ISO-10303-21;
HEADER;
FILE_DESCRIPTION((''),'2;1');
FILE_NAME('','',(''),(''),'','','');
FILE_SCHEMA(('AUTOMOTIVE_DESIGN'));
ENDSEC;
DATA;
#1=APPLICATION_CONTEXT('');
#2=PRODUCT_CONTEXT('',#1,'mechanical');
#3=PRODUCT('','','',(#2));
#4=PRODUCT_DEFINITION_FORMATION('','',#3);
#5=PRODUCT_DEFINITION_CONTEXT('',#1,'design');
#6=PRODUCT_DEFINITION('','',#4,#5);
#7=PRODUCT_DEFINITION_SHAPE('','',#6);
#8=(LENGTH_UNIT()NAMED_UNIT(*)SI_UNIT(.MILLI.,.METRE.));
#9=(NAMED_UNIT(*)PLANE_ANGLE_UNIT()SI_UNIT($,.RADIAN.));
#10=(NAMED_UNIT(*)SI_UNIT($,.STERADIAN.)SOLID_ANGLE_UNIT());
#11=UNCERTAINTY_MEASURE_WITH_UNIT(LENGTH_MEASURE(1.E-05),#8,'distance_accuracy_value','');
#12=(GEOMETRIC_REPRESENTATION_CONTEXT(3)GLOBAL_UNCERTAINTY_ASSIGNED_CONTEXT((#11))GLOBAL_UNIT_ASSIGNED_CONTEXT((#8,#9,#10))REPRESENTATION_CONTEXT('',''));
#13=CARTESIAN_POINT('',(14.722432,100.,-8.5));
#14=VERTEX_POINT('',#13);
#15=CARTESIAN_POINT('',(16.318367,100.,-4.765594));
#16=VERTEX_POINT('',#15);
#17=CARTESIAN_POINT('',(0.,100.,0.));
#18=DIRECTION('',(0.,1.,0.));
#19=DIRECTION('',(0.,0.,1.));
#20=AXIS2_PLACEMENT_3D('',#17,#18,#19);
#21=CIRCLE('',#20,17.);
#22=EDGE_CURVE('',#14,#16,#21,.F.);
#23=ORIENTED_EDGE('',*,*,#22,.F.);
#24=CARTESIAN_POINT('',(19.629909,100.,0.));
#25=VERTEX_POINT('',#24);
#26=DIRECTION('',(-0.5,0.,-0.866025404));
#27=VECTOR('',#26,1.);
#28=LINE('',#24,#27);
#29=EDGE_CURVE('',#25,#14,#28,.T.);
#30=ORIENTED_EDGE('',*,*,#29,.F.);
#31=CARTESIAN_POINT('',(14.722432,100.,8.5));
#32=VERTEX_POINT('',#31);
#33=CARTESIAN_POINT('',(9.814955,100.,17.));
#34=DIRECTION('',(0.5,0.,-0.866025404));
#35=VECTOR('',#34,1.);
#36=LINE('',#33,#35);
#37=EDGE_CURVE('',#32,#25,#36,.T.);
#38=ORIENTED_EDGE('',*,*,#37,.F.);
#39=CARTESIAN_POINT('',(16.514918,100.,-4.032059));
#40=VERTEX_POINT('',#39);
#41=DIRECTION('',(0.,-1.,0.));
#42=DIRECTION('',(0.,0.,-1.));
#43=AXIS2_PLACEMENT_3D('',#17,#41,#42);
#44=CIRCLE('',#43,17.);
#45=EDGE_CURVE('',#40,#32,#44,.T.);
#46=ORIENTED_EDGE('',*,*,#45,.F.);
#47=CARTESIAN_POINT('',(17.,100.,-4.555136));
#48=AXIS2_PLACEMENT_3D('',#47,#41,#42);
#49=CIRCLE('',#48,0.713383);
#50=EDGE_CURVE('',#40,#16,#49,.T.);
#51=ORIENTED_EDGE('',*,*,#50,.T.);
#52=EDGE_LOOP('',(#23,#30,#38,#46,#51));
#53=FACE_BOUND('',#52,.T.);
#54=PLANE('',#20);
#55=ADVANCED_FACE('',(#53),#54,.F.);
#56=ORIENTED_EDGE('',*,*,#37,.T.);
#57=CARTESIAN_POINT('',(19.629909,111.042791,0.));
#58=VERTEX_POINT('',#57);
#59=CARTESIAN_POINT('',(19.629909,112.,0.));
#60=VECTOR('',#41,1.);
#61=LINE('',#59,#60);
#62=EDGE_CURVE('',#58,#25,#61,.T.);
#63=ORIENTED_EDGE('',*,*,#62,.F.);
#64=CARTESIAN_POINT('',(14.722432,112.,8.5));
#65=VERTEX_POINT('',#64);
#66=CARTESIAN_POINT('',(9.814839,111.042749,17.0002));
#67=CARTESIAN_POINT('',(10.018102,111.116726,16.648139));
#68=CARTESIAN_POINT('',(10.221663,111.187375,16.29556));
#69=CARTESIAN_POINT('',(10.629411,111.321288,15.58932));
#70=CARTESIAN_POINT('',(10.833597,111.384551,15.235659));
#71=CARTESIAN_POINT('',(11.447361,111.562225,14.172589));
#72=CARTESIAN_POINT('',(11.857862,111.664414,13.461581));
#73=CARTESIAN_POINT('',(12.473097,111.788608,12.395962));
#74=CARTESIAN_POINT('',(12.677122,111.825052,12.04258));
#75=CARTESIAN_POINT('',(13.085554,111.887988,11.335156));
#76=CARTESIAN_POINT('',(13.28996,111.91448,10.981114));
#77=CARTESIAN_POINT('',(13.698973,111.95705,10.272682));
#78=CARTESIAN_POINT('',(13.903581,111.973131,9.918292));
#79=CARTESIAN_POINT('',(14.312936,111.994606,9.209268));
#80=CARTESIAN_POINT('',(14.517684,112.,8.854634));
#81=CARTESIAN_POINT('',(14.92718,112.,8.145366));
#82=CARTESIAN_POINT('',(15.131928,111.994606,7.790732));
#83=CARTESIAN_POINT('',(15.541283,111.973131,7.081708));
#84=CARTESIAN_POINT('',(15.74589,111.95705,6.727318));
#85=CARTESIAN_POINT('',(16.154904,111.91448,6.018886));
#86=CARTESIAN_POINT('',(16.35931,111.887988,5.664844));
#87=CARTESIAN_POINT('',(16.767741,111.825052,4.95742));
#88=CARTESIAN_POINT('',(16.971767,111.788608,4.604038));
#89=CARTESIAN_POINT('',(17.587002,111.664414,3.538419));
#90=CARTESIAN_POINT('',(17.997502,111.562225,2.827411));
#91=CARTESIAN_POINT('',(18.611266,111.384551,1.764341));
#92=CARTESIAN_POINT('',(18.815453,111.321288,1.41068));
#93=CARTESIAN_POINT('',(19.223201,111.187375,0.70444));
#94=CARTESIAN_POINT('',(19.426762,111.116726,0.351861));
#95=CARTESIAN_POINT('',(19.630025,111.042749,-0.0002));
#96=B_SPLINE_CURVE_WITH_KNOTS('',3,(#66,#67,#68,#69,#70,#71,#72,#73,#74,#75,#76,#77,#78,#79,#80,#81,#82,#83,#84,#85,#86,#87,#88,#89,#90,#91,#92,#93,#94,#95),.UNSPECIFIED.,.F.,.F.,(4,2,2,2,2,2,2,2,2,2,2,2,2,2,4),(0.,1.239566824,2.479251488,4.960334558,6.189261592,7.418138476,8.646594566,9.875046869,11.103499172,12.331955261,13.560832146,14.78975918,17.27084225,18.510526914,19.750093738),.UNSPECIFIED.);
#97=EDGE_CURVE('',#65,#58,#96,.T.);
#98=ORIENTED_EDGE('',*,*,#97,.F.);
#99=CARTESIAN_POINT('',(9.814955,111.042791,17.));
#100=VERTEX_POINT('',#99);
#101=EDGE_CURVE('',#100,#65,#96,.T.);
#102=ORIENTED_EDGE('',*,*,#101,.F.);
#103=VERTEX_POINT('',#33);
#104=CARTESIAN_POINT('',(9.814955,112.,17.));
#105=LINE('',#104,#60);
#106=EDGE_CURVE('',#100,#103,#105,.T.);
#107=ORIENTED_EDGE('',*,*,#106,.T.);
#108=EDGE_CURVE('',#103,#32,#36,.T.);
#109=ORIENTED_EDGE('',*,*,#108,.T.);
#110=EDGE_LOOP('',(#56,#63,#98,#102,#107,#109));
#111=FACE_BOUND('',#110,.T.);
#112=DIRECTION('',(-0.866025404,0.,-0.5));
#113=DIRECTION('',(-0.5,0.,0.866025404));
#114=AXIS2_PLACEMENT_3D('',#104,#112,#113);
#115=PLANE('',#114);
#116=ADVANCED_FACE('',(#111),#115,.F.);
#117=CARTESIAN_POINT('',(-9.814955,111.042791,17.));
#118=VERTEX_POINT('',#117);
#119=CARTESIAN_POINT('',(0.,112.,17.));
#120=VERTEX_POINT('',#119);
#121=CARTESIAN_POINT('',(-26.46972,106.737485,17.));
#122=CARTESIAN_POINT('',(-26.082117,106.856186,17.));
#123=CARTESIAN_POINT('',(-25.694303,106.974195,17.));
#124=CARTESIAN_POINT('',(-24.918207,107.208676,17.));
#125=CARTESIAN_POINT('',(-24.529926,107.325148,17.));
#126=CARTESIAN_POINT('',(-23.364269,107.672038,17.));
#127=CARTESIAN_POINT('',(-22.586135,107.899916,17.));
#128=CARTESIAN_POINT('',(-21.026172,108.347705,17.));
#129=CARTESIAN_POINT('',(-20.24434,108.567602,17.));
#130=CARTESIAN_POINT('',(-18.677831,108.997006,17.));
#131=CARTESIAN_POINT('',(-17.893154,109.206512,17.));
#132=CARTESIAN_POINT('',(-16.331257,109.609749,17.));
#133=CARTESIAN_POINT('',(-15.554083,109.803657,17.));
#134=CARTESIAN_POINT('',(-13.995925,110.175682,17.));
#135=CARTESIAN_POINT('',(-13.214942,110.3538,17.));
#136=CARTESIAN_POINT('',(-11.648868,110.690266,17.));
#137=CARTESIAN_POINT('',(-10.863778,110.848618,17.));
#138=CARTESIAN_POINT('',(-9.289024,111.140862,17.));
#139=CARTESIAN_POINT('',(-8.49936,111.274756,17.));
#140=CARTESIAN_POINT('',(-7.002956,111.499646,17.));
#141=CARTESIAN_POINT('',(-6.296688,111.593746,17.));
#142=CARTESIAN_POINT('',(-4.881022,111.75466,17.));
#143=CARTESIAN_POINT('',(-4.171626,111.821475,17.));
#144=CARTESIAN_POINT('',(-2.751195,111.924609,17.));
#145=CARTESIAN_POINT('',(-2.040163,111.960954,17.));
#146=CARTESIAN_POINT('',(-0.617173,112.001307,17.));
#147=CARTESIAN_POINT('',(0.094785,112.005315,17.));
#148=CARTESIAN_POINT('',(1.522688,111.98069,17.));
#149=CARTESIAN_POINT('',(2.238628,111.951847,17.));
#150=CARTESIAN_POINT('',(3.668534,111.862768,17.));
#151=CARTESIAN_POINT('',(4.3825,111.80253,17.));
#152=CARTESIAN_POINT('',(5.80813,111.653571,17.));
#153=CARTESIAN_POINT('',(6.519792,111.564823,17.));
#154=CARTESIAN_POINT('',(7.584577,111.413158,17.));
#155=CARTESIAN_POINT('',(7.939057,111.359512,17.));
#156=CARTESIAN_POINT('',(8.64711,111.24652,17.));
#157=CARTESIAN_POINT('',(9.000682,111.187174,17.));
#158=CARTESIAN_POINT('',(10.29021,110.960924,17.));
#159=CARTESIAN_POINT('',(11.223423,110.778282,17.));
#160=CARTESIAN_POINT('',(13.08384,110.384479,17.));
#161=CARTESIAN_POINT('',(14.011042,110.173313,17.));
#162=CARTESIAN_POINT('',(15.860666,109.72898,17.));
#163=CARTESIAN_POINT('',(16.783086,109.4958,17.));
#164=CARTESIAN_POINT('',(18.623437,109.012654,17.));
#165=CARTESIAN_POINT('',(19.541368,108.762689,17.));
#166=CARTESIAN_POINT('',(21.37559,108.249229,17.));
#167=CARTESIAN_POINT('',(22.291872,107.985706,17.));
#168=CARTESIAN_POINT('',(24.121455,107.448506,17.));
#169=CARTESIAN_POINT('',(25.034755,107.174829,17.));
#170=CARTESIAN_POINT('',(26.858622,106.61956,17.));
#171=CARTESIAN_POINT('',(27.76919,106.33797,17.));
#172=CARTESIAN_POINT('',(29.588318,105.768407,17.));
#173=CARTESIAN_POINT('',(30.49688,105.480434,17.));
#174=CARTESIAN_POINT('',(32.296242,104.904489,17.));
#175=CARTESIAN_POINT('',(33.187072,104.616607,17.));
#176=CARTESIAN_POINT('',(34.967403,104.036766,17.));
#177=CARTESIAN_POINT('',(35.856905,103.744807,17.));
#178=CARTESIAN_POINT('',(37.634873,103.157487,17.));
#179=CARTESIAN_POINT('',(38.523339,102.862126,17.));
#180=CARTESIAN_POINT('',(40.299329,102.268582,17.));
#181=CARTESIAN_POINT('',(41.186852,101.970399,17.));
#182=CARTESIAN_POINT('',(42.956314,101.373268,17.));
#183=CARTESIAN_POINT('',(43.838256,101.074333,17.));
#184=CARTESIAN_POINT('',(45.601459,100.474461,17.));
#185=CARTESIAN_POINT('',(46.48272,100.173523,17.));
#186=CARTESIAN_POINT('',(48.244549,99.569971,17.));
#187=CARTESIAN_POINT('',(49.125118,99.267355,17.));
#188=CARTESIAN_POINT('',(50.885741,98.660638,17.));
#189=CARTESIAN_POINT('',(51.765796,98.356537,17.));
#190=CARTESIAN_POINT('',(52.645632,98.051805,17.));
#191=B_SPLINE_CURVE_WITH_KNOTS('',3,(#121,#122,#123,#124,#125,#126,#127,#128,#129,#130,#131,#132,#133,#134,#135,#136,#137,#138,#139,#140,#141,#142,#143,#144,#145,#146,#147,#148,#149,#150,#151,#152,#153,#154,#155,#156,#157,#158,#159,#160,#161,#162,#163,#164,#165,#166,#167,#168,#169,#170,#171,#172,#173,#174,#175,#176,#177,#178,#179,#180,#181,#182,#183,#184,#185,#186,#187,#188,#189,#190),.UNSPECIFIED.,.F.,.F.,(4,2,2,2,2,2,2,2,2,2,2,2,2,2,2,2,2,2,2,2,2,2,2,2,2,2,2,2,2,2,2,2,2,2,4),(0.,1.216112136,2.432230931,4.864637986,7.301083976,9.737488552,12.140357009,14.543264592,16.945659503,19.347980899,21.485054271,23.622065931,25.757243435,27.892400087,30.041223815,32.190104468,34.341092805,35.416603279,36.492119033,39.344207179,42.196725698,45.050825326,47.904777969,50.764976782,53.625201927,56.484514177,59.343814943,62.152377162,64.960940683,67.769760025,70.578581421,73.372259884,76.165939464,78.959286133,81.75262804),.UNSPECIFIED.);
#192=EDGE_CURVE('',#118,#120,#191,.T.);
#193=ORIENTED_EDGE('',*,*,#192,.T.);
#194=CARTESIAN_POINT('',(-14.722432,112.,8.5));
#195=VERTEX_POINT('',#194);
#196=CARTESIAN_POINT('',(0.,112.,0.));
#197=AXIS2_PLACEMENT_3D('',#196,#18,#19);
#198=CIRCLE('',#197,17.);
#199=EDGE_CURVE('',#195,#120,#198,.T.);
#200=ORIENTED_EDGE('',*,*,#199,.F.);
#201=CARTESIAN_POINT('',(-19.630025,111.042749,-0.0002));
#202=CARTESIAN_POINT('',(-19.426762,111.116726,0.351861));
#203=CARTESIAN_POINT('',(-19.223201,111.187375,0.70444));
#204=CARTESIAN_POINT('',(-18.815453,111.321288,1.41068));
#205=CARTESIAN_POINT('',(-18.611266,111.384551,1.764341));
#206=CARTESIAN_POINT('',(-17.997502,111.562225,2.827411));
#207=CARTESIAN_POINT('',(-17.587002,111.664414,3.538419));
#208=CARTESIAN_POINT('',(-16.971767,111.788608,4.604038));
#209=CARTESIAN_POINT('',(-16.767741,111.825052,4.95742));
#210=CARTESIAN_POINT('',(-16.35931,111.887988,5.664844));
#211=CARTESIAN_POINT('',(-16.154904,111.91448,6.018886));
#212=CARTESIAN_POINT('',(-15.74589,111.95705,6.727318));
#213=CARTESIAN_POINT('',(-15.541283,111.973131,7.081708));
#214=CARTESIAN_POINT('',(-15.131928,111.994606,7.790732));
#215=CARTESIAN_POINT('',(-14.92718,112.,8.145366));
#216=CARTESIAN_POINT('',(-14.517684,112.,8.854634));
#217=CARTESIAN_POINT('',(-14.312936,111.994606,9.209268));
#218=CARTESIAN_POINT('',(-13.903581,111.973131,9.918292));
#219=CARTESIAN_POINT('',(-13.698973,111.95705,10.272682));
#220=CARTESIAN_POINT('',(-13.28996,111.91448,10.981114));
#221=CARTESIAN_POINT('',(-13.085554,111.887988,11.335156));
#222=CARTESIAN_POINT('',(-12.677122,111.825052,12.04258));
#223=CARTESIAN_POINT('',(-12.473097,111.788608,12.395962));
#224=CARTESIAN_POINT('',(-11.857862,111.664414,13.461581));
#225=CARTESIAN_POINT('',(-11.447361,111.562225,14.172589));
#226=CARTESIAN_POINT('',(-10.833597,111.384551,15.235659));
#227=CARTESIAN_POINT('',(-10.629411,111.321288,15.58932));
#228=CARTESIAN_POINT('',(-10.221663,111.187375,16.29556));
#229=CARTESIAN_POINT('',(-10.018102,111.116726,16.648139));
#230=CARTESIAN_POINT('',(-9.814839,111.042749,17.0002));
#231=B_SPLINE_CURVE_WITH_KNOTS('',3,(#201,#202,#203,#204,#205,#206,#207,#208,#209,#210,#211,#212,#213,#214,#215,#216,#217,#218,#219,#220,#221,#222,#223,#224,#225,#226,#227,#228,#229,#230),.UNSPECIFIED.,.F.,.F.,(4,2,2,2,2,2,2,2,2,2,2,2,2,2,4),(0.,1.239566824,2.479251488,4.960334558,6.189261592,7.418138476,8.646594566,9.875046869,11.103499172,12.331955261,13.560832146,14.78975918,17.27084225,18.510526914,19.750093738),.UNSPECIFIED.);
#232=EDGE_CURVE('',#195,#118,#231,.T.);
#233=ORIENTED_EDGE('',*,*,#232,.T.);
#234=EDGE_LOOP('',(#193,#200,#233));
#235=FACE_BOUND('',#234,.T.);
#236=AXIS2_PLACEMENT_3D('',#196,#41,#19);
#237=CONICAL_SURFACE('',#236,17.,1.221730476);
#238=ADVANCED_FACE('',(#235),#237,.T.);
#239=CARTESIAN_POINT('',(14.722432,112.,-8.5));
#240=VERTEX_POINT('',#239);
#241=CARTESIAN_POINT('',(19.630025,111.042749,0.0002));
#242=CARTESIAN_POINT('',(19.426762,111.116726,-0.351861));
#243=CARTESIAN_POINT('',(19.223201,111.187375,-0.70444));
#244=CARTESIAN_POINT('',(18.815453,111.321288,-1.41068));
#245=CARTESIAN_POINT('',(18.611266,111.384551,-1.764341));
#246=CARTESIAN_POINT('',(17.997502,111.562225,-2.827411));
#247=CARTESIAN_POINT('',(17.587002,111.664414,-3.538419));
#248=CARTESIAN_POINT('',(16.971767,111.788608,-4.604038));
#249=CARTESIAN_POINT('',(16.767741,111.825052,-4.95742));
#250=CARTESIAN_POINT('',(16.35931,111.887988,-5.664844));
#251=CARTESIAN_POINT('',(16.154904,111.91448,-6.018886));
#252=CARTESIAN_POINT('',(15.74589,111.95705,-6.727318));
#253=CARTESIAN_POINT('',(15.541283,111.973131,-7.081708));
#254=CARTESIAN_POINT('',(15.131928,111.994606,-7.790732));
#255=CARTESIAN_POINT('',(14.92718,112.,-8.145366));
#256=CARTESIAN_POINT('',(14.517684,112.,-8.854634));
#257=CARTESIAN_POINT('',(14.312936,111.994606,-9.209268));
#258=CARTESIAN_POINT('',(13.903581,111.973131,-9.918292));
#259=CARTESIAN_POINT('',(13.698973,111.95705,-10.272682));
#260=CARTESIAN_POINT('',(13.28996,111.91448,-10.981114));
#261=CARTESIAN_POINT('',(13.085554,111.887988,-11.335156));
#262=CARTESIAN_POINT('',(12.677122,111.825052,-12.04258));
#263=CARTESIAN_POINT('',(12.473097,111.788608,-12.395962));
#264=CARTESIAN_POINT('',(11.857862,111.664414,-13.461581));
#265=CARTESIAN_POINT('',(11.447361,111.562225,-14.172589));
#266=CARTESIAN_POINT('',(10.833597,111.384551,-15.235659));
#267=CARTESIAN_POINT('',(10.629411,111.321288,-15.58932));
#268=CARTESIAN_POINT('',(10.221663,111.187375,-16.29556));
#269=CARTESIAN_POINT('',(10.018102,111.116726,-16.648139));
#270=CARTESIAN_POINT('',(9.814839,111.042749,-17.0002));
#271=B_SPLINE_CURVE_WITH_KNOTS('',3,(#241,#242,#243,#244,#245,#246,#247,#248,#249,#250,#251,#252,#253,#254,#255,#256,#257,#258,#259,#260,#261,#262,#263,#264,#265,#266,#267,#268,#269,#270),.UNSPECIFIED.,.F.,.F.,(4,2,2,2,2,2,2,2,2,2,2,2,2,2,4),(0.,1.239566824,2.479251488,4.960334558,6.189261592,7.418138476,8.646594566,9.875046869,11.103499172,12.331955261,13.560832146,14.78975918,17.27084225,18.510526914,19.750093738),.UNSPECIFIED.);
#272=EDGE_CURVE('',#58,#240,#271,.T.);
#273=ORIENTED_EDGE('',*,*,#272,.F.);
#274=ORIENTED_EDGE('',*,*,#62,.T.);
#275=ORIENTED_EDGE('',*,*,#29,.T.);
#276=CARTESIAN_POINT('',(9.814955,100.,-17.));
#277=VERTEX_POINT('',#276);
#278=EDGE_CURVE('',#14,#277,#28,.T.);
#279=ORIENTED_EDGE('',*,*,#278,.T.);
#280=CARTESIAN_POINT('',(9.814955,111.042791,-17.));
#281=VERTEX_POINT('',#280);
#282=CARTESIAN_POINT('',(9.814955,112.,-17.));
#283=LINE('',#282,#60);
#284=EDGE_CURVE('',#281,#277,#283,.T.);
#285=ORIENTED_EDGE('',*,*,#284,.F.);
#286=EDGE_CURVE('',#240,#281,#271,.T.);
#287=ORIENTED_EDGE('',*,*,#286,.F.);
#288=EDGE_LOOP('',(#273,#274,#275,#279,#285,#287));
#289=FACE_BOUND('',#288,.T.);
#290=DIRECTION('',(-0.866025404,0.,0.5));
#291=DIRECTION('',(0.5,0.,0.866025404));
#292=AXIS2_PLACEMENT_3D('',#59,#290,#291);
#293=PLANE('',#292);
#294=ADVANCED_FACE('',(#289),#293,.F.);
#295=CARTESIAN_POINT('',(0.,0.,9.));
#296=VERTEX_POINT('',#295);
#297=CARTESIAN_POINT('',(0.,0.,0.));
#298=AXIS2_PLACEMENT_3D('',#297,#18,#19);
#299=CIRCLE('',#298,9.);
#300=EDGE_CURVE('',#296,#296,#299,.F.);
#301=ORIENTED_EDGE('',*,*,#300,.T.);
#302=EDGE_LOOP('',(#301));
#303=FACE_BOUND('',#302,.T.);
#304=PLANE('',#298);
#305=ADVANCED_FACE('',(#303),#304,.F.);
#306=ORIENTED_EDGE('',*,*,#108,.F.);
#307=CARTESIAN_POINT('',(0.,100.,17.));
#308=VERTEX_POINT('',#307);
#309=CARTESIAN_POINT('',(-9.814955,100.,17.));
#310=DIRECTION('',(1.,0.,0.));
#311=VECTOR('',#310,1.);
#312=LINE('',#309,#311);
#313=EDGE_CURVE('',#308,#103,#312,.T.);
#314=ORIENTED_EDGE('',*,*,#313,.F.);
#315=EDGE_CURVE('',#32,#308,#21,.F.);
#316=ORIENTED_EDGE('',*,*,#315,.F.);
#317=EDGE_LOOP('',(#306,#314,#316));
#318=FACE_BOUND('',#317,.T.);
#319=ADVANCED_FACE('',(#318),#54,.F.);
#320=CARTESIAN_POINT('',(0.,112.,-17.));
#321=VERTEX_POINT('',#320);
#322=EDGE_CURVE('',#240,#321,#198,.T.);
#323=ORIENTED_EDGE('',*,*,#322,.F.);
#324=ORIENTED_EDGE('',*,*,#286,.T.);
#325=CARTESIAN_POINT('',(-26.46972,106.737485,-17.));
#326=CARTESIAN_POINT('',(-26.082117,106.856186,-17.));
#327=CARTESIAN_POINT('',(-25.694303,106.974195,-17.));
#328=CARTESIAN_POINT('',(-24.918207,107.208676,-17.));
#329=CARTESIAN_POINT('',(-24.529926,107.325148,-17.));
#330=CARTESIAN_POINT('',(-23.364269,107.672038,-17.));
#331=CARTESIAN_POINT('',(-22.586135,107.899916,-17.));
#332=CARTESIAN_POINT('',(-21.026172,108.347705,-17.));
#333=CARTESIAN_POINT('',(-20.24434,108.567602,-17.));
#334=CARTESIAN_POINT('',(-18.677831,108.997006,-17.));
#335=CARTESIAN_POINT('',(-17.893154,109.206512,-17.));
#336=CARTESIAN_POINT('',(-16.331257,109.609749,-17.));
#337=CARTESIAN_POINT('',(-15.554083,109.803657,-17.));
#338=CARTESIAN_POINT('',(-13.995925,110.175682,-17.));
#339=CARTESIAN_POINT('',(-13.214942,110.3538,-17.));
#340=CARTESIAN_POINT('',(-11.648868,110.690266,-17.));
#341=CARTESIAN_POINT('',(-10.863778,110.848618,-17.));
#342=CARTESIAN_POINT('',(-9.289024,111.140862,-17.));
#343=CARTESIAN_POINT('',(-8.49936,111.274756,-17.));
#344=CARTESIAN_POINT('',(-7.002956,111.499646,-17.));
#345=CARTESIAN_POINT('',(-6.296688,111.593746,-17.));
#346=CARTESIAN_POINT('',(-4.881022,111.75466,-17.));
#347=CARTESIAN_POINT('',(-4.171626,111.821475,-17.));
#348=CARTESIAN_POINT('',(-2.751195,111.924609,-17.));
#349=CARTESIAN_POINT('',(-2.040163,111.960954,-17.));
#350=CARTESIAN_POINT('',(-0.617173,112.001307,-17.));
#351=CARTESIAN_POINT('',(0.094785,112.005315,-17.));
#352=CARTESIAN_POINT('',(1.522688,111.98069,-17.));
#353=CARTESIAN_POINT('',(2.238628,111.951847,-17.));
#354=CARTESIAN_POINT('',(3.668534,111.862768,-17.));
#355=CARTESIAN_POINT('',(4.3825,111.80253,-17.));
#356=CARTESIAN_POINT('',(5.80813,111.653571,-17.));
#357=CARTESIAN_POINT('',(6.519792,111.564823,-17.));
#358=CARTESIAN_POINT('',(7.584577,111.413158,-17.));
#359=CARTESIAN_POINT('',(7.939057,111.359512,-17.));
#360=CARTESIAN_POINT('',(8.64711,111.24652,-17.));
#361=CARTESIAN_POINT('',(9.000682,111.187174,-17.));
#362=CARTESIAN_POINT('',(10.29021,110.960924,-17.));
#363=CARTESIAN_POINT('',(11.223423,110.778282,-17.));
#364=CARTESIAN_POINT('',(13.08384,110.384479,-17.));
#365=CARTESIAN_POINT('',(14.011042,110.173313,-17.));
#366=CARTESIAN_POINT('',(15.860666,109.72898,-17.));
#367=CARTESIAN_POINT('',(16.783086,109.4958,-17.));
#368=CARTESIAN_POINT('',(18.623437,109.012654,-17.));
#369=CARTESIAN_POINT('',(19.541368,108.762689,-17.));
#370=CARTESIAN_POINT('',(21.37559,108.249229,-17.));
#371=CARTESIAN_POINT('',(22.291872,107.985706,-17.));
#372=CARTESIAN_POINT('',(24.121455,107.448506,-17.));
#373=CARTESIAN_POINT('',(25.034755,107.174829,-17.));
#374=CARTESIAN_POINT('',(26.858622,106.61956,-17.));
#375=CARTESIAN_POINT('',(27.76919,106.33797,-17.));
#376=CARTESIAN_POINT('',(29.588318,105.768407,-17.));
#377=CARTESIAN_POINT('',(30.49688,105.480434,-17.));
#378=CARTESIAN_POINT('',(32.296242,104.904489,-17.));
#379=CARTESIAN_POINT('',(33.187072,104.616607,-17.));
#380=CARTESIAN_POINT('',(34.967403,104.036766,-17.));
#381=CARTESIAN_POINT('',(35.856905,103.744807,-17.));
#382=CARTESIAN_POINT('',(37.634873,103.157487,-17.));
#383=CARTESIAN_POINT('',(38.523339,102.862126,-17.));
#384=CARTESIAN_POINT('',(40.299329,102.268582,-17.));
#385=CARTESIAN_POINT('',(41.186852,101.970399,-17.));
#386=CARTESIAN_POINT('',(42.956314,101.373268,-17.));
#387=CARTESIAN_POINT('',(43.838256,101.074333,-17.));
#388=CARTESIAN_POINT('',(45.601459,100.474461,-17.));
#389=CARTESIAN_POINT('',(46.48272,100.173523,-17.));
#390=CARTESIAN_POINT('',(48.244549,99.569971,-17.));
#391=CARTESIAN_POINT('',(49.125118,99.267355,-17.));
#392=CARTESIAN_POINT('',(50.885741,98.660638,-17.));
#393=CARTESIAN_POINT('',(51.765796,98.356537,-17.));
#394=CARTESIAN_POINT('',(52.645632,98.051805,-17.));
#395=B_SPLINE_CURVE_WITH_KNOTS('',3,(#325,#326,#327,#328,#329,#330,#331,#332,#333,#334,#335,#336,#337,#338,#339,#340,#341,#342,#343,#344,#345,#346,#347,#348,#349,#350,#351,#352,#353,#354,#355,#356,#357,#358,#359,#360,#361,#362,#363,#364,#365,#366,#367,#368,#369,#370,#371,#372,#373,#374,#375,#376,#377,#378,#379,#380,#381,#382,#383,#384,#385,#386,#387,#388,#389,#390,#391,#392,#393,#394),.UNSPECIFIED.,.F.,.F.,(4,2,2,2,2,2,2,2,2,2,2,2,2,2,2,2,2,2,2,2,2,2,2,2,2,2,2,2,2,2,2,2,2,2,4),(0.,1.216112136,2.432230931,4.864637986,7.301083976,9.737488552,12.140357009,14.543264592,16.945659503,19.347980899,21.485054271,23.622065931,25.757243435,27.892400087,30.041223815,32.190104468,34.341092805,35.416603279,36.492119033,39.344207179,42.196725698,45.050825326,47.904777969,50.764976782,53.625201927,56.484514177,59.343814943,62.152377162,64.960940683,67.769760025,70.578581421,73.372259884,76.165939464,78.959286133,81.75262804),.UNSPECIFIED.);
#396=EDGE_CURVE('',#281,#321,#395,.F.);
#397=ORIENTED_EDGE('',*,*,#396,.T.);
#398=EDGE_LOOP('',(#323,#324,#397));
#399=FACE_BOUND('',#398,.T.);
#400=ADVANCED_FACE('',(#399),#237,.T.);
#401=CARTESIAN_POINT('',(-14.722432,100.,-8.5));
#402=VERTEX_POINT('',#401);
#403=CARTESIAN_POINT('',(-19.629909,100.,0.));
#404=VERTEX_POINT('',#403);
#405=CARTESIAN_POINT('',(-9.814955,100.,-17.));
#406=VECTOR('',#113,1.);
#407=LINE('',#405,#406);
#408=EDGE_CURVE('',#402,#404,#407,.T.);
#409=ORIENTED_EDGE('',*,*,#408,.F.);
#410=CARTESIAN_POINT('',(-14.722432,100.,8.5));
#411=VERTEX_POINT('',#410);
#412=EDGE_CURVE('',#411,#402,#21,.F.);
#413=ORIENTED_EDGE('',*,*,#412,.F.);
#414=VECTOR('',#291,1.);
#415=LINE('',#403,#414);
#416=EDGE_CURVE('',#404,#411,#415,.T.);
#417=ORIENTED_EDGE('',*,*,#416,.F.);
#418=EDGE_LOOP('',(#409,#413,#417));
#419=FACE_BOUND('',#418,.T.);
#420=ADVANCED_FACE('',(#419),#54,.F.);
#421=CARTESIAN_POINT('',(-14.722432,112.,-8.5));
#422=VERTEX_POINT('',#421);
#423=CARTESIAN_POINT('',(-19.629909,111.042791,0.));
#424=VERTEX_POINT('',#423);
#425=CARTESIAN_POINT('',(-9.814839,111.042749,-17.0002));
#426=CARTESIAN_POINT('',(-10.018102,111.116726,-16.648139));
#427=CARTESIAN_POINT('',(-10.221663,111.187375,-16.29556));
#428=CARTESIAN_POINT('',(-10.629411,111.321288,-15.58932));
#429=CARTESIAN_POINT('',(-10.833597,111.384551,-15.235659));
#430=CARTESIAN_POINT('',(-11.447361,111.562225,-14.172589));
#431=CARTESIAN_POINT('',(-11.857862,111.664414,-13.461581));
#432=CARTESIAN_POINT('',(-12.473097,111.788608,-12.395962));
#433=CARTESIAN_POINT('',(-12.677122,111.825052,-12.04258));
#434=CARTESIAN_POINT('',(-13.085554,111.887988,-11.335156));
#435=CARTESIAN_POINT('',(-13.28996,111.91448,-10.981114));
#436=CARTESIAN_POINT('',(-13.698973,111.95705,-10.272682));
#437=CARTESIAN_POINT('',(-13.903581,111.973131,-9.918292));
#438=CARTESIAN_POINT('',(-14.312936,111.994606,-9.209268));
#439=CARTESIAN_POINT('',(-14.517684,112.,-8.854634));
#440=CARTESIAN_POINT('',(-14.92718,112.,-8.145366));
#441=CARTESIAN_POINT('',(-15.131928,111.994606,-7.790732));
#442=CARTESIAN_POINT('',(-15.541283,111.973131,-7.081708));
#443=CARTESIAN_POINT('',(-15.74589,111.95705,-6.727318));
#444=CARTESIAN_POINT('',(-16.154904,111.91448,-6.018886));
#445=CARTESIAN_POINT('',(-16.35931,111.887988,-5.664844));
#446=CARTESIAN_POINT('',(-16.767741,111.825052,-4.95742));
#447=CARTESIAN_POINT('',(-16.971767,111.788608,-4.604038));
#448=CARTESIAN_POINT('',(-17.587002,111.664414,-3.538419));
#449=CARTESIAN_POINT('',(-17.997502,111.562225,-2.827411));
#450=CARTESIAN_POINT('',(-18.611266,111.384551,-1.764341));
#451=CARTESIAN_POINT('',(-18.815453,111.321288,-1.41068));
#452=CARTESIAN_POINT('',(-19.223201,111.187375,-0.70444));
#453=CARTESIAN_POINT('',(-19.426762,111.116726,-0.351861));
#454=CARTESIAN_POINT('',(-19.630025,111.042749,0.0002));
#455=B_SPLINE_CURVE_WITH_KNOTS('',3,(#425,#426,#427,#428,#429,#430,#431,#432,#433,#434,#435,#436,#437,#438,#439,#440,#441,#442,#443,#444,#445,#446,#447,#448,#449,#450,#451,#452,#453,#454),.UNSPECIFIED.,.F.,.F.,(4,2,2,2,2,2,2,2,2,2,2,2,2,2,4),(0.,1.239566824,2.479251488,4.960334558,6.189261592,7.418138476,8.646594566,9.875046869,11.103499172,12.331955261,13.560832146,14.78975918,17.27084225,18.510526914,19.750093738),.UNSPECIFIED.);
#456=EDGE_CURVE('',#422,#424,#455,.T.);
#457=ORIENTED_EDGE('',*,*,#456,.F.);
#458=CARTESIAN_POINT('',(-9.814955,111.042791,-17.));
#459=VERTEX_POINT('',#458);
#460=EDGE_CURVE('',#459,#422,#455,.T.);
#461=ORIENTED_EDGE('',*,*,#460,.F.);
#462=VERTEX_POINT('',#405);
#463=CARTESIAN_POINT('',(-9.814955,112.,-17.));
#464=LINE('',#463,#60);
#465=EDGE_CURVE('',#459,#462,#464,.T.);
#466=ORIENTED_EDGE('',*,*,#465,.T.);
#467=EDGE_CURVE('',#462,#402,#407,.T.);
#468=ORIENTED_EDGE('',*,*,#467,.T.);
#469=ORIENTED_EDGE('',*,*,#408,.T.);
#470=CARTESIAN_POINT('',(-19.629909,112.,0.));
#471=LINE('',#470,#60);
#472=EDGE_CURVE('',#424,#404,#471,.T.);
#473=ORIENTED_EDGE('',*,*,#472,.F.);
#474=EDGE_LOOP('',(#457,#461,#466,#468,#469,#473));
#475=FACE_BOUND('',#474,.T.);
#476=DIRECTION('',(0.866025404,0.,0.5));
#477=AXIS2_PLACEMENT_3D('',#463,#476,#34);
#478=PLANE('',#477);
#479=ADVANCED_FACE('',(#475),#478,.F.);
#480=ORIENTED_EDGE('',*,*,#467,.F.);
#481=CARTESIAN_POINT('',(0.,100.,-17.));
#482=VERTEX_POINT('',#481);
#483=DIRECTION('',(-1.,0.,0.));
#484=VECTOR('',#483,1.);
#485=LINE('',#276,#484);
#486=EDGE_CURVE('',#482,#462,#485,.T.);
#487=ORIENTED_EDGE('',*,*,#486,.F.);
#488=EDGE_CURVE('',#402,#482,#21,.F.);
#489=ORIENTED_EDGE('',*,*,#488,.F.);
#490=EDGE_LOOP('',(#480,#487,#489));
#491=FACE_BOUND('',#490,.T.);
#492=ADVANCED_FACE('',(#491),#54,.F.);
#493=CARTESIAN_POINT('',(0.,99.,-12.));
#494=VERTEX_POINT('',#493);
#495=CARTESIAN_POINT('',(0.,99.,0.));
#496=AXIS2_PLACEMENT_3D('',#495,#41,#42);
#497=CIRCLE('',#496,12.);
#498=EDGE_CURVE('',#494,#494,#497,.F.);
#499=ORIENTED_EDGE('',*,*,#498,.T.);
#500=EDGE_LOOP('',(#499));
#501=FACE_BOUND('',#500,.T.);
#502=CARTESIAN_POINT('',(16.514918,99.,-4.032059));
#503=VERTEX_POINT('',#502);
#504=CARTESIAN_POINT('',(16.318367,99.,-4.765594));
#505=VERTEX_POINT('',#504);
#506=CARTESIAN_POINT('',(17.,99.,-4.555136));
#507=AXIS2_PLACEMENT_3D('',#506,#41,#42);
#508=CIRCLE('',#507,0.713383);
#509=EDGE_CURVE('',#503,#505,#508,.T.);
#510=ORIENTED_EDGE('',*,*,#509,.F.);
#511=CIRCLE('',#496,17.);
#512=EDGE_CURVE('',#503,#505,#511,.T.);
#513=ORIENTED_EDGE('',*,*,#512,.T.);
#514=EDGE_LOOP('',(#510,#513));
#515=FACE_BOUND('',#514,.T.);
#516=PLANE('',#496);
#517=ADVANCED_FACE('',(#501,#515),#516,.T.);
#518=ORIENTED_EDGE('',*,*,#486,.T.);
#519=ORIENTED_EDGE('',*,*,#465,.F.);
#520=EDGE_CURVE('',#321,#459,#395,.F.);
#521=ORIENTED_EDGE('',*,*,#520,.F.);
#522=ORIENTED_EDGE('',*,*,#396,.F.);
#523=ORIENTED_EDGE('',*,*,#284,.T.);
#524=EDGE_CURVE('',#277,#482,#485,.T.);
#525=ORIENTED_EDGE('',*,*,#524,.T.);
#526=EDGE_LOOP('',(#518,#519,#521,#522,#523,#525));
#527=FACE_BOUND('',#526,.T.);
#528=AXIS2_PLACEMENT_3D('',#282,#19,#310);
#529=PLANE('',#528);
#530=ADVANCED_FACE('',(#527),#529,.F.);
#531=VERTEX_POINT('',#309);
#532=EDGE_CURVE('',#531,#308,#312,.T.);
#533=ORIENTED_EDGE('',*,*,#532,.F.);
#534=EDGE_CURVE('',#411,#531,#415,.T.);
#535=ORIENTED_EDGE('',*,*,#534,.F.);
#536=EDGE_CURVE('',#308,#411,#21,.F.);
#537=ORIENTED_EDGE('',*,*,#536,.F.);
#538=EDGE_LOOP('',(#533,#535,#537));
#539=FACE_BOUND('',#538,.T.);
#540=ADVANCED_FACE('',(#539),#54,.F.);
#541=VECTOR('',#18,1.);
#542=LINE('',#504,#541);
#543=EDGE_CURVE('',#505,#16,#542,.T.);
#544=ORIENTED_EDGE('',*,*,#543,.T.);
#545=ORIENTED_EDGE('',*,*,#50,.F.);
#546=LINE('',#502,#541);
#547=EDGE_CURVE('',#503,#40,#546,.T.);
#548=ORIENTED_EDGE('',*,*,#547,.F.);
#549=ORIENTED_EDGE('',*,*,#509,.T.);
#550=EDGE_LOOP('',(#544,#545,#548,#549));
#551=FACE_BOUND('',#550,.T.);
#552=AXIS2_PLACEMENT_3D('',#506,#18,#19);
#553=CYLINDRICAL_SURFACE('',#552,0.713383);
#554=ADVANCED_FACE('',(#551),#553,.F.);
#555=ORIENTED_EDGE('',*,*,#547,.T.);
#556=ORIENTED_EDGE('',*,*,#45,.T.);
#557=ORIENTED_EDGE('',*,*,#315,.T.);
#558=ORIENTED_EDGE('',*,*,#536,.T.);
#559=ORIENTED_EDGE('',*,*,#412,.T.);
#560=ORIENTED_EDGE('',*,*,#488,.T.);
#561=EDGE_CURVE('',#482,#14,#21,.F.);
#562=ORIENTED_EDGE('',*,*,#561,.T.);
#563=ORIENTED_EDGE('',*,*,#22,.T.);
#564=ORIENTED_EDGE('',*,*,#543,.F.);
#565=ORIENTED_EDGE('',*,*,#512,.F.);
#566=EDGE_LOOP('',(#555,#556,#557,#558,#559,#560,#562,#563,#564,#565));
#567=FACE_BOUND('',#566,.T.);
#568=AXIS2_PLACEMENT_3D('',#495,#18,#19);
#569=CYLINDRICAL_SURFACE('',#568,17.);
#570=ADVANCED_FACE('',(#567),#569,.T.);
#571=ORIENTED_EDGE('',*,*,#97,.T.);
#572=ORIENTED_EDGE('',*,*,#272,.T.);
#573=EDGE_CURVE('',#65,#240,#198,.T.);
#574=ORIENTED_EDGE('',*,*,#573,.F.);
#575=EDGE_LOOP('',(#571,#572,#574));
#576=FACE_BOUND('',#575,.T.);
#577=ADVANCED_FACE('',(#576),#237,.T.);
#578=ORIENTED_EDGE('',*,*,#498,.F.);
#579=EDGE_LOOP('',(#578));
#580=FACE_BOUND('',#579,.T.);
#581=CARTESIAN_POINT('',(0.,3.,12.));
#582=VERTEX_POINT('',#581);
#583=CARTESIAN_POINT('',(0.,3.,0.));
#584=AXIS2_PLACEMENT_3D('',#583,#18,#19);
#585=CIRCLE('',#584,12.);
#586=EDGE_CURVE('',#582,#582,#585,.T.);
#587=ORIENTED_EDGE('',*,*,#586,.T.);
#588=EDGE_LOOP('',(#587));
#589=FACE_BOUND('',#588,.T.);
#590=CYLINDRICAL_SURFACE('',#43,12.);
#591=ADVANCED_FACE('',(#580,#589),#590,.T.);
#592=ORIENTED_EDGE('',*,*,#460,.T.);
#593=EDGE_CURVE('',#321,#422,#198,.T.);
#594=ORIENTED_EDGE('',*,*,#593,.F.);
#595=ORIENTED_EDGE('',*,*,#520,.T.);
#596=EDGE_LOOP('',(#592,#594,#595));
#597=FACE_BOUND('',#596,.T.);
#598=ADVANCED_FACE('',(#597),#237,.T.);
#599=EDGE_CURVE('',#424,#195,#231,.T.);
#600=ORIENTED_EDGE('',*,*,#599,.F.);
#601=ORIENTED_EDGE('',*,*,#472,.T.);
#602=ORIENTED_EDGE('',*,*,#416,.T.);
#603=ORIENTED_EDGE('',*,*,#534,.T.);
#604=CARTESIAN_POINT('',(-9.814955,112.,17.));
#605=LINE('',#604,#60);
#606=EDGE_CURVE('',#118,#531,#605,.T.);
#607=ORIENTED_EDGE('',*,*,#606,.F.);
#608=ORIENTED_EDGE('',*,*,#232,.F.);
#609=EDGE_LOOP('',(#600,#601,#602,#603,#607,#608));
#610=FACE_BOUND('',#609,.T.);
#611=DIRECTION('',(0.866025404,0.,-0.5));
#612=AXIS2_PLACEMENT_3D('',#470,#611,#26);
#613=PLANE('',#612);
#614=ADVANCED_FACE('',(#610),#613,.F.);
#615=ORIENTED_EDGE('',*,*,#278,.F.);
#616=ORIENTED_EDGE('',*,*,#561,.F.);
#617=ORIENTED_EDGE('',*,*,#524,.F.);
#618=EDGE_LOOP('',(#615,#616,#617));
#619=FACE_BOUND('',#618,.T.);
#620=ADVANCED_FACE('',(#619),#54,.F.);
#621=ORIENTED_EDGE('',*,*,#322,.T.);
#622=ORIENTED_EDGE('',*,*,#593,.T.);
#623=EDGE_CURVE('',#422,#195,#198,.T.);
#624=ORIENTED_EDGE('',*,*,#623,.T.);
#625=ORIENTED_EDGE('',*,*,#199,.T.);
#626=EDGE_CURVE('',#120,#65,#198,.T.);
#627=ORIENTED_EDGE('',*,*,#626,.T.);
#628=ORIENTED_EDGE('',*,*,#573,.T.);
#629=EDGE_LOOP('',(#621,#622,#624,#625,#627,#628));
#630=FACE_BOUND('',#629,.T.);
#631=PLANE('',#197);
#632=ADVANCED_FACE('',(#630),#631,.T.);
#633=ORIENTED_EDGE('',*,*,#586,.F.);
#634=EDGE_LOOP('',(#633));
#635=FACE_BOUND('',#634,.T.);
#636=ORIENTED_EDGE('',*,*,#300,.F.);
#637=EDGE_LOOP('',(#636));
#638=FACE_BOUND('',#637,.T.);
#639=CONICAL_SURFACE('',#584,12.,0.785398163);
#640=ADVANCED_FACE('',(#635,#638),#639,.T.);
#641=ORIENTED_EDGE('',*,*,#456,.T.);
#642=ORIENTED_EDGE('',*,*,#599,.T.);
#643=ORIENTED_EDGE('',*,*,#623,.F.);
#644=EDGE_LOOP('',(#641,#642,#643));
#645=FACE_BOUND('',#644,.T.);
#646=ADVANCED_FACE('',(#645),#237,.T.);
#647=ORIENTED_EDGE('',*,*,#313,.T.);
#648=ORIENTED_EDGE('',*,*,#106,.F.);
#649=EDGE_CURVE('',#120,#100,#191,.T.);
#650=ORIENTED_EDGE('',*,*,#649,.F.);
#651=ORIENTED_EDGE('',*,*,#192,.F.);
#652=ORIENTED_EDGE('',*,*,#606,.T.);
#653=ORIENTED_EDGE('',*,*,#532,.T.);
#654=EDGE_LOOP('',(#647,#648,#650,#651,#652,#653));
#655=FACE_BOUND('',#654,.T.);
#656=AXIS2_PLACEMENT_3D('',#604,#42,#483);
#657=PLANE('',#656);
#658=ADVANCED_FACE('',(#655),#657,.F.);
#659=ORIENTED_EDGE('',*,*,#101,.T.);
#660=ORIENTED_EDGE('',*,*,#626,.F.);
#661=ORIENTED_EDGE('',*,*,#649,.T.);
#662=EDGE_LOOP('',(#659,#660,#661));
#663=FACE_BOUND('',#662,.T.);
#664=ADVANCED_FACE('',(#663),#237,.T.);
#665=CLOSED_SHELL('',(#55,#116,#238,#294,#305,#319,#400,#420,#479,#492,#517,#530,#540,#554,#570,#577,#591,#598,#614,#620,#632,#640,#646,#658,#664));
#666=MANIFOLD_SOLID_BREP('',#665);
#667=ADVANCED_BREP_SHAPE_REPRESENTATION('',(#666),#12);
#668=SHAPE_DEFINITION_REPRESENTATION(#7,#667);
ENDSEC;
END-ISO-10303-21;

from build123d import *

# Parameters (mm, degrees)
SKETCH1_R           = 12
BOSS_EXTRUDE1_DEPTH = 100
BOSS_EXTRUDE2_DEPTH = 12
SKETCH4_OUTSIDE_W   = 131.89
SKETCH4_OUTSIDE_H   = 126.63
SKETCH4_OUTSIDE_R   = 17
CUT_EXTRUDE1_DEPTH  = 12
CUT_EXTRUDE1_DRAFT  = -70
BOSS_EXTRUDE3_START = 1
SKETCH5_R           = 12
BOSS_EXTRUDE3_DEPTH = 1
CHAMFER1_SIZE       = 3


with BuildPart() as part:
    # Sketch1 → Boss-Extrude1 (new body)
    with BuildSketch(Plane(origin=(0, 0, 0), x_dir=(1, 0, 0), z_dir=(0, 1, 0))):
        with Locations(Location((0, 0, 0), (0, 0, 270))):
            Circle(SKETCH1_R)
    extrude(amount=BOSS_EXTRUDE1_DEPTH)

    # Sketch2 → Boss-Extrude2 (add)
    with BuildSketch(Plane(origin=(0, 100, 0), x_dir=(1, 0, 0), z_dir=(0, 1, 0))):
        Polygon((19.629909152, 0), (9.814954576, 17), (-9.814954576, 17), (-19.629909152, 0), (-9.814954576, -17), (9.814954576, -17), align=None)
    extrude(amount=BOSS_EXTRUDE2_DEPTH)


with BuildPart() as cut_extrude1_tool:
    # Sketch4 outside → Cut-Extrude1 (with draft: the straight prism first)
    with BuildSketch(Plane(origin=(0, 112, 0), x_dir=(1, 0, 0), z_dir=(0, 1, 0))):
        Rectangle(SKETCH4_OUTSIDE_W, SKETCH4_OUTSIDE_H)
        Circle(SKETCH4_OUTSIDE_R, mode=Mode.SUBTRACT)
    extrude(amount=-CUT_EXTRUDE1_DEPTH)
    # Cut-Extrude1: the draft: its side faces are tilted about the plane it starts from
    cut_extrude1_sides = [cut_extrude1_tool.faces().sort_by_distance(p)[0] for p in [
        (0, 106, 63.315),
        (65.945, 106, 0),
        (0, 106, -63.315),
        (-65.945, 106, 0),
        (-17, 106, 0),
    ]]
    draft(cut_extrude1_sides, Plane(origin=(0, 112, 0), x_dir=(1, 0, 0), z_dir=(0, 1, 0)), CUT_EXTRUDE1_DRAFT)


with BuildPart() as part_1:
    add(part.part)

    # Cut-Extrude1: cut by cut_extrude1_tool
    add(cut_extrude1_tool.part, mode=Mode.SUBTRACT)

    # Sketch5 → Boss-Extrude3 (add)
    with BuildSketch(Plane.XZ.offset(-100).offset(BOSS_EXTRUDE3_START)):
        with BuildLine():
            ThreePointArc((16.51491761, -4.032058572), (16.878293743, -2.030566501), (17, 0))
            ThreePointArc((17, 0), (16.420739111, 4.399923526), (14.722432113, 8.499999569))
            ThreePointArc((14.722432113, 8.499999569), (8.500000217, 14.722431739), (3e-09, 17))
            ThreePointArc((3e-09, 17), (-8.500000031, 14.722431846), (-14.722431902, 8.499999935))
            ThreePointArc((-14.722431902, 8.499999935), (-17, -1.47e-07), (-14.722431755, -8.50000019))
            ThreePointArc((-14.722431755, -8.50000019), (-8.499999905, -14.722431919), (0, -17))
            ThreePointArc((0, -17), (8.499999905, -14.722431919), (14.722431755, -8.50000019))
            ThreePointArc((14.722431755, -8.50000019), (15.632314361, -6.680624799), (16.318367478, -4.765593652))
            ThreePointArc((16.318367478, -4.765593652), (16.310925004, -4.370499183), (16.51491761, -4.032058572))
        make_face()
        with Locations(Location((0, 0, 0), (0, 0, 270))):
            Circle(SKETCH5_R, mode=Mode.SUBTRACT)
    extrude(amount=-BOSS_EXTRUDE3_DEPTH)

    # Chamfer1
    chamfer1_edges = [part_1.edges().sort_by_distance(p)[0] for p in [
        (0, 0, -12),
    ]]
    chamfer(chamfer1_edges, length=CHAMFER1_SIZE)


solid = part_1.part
